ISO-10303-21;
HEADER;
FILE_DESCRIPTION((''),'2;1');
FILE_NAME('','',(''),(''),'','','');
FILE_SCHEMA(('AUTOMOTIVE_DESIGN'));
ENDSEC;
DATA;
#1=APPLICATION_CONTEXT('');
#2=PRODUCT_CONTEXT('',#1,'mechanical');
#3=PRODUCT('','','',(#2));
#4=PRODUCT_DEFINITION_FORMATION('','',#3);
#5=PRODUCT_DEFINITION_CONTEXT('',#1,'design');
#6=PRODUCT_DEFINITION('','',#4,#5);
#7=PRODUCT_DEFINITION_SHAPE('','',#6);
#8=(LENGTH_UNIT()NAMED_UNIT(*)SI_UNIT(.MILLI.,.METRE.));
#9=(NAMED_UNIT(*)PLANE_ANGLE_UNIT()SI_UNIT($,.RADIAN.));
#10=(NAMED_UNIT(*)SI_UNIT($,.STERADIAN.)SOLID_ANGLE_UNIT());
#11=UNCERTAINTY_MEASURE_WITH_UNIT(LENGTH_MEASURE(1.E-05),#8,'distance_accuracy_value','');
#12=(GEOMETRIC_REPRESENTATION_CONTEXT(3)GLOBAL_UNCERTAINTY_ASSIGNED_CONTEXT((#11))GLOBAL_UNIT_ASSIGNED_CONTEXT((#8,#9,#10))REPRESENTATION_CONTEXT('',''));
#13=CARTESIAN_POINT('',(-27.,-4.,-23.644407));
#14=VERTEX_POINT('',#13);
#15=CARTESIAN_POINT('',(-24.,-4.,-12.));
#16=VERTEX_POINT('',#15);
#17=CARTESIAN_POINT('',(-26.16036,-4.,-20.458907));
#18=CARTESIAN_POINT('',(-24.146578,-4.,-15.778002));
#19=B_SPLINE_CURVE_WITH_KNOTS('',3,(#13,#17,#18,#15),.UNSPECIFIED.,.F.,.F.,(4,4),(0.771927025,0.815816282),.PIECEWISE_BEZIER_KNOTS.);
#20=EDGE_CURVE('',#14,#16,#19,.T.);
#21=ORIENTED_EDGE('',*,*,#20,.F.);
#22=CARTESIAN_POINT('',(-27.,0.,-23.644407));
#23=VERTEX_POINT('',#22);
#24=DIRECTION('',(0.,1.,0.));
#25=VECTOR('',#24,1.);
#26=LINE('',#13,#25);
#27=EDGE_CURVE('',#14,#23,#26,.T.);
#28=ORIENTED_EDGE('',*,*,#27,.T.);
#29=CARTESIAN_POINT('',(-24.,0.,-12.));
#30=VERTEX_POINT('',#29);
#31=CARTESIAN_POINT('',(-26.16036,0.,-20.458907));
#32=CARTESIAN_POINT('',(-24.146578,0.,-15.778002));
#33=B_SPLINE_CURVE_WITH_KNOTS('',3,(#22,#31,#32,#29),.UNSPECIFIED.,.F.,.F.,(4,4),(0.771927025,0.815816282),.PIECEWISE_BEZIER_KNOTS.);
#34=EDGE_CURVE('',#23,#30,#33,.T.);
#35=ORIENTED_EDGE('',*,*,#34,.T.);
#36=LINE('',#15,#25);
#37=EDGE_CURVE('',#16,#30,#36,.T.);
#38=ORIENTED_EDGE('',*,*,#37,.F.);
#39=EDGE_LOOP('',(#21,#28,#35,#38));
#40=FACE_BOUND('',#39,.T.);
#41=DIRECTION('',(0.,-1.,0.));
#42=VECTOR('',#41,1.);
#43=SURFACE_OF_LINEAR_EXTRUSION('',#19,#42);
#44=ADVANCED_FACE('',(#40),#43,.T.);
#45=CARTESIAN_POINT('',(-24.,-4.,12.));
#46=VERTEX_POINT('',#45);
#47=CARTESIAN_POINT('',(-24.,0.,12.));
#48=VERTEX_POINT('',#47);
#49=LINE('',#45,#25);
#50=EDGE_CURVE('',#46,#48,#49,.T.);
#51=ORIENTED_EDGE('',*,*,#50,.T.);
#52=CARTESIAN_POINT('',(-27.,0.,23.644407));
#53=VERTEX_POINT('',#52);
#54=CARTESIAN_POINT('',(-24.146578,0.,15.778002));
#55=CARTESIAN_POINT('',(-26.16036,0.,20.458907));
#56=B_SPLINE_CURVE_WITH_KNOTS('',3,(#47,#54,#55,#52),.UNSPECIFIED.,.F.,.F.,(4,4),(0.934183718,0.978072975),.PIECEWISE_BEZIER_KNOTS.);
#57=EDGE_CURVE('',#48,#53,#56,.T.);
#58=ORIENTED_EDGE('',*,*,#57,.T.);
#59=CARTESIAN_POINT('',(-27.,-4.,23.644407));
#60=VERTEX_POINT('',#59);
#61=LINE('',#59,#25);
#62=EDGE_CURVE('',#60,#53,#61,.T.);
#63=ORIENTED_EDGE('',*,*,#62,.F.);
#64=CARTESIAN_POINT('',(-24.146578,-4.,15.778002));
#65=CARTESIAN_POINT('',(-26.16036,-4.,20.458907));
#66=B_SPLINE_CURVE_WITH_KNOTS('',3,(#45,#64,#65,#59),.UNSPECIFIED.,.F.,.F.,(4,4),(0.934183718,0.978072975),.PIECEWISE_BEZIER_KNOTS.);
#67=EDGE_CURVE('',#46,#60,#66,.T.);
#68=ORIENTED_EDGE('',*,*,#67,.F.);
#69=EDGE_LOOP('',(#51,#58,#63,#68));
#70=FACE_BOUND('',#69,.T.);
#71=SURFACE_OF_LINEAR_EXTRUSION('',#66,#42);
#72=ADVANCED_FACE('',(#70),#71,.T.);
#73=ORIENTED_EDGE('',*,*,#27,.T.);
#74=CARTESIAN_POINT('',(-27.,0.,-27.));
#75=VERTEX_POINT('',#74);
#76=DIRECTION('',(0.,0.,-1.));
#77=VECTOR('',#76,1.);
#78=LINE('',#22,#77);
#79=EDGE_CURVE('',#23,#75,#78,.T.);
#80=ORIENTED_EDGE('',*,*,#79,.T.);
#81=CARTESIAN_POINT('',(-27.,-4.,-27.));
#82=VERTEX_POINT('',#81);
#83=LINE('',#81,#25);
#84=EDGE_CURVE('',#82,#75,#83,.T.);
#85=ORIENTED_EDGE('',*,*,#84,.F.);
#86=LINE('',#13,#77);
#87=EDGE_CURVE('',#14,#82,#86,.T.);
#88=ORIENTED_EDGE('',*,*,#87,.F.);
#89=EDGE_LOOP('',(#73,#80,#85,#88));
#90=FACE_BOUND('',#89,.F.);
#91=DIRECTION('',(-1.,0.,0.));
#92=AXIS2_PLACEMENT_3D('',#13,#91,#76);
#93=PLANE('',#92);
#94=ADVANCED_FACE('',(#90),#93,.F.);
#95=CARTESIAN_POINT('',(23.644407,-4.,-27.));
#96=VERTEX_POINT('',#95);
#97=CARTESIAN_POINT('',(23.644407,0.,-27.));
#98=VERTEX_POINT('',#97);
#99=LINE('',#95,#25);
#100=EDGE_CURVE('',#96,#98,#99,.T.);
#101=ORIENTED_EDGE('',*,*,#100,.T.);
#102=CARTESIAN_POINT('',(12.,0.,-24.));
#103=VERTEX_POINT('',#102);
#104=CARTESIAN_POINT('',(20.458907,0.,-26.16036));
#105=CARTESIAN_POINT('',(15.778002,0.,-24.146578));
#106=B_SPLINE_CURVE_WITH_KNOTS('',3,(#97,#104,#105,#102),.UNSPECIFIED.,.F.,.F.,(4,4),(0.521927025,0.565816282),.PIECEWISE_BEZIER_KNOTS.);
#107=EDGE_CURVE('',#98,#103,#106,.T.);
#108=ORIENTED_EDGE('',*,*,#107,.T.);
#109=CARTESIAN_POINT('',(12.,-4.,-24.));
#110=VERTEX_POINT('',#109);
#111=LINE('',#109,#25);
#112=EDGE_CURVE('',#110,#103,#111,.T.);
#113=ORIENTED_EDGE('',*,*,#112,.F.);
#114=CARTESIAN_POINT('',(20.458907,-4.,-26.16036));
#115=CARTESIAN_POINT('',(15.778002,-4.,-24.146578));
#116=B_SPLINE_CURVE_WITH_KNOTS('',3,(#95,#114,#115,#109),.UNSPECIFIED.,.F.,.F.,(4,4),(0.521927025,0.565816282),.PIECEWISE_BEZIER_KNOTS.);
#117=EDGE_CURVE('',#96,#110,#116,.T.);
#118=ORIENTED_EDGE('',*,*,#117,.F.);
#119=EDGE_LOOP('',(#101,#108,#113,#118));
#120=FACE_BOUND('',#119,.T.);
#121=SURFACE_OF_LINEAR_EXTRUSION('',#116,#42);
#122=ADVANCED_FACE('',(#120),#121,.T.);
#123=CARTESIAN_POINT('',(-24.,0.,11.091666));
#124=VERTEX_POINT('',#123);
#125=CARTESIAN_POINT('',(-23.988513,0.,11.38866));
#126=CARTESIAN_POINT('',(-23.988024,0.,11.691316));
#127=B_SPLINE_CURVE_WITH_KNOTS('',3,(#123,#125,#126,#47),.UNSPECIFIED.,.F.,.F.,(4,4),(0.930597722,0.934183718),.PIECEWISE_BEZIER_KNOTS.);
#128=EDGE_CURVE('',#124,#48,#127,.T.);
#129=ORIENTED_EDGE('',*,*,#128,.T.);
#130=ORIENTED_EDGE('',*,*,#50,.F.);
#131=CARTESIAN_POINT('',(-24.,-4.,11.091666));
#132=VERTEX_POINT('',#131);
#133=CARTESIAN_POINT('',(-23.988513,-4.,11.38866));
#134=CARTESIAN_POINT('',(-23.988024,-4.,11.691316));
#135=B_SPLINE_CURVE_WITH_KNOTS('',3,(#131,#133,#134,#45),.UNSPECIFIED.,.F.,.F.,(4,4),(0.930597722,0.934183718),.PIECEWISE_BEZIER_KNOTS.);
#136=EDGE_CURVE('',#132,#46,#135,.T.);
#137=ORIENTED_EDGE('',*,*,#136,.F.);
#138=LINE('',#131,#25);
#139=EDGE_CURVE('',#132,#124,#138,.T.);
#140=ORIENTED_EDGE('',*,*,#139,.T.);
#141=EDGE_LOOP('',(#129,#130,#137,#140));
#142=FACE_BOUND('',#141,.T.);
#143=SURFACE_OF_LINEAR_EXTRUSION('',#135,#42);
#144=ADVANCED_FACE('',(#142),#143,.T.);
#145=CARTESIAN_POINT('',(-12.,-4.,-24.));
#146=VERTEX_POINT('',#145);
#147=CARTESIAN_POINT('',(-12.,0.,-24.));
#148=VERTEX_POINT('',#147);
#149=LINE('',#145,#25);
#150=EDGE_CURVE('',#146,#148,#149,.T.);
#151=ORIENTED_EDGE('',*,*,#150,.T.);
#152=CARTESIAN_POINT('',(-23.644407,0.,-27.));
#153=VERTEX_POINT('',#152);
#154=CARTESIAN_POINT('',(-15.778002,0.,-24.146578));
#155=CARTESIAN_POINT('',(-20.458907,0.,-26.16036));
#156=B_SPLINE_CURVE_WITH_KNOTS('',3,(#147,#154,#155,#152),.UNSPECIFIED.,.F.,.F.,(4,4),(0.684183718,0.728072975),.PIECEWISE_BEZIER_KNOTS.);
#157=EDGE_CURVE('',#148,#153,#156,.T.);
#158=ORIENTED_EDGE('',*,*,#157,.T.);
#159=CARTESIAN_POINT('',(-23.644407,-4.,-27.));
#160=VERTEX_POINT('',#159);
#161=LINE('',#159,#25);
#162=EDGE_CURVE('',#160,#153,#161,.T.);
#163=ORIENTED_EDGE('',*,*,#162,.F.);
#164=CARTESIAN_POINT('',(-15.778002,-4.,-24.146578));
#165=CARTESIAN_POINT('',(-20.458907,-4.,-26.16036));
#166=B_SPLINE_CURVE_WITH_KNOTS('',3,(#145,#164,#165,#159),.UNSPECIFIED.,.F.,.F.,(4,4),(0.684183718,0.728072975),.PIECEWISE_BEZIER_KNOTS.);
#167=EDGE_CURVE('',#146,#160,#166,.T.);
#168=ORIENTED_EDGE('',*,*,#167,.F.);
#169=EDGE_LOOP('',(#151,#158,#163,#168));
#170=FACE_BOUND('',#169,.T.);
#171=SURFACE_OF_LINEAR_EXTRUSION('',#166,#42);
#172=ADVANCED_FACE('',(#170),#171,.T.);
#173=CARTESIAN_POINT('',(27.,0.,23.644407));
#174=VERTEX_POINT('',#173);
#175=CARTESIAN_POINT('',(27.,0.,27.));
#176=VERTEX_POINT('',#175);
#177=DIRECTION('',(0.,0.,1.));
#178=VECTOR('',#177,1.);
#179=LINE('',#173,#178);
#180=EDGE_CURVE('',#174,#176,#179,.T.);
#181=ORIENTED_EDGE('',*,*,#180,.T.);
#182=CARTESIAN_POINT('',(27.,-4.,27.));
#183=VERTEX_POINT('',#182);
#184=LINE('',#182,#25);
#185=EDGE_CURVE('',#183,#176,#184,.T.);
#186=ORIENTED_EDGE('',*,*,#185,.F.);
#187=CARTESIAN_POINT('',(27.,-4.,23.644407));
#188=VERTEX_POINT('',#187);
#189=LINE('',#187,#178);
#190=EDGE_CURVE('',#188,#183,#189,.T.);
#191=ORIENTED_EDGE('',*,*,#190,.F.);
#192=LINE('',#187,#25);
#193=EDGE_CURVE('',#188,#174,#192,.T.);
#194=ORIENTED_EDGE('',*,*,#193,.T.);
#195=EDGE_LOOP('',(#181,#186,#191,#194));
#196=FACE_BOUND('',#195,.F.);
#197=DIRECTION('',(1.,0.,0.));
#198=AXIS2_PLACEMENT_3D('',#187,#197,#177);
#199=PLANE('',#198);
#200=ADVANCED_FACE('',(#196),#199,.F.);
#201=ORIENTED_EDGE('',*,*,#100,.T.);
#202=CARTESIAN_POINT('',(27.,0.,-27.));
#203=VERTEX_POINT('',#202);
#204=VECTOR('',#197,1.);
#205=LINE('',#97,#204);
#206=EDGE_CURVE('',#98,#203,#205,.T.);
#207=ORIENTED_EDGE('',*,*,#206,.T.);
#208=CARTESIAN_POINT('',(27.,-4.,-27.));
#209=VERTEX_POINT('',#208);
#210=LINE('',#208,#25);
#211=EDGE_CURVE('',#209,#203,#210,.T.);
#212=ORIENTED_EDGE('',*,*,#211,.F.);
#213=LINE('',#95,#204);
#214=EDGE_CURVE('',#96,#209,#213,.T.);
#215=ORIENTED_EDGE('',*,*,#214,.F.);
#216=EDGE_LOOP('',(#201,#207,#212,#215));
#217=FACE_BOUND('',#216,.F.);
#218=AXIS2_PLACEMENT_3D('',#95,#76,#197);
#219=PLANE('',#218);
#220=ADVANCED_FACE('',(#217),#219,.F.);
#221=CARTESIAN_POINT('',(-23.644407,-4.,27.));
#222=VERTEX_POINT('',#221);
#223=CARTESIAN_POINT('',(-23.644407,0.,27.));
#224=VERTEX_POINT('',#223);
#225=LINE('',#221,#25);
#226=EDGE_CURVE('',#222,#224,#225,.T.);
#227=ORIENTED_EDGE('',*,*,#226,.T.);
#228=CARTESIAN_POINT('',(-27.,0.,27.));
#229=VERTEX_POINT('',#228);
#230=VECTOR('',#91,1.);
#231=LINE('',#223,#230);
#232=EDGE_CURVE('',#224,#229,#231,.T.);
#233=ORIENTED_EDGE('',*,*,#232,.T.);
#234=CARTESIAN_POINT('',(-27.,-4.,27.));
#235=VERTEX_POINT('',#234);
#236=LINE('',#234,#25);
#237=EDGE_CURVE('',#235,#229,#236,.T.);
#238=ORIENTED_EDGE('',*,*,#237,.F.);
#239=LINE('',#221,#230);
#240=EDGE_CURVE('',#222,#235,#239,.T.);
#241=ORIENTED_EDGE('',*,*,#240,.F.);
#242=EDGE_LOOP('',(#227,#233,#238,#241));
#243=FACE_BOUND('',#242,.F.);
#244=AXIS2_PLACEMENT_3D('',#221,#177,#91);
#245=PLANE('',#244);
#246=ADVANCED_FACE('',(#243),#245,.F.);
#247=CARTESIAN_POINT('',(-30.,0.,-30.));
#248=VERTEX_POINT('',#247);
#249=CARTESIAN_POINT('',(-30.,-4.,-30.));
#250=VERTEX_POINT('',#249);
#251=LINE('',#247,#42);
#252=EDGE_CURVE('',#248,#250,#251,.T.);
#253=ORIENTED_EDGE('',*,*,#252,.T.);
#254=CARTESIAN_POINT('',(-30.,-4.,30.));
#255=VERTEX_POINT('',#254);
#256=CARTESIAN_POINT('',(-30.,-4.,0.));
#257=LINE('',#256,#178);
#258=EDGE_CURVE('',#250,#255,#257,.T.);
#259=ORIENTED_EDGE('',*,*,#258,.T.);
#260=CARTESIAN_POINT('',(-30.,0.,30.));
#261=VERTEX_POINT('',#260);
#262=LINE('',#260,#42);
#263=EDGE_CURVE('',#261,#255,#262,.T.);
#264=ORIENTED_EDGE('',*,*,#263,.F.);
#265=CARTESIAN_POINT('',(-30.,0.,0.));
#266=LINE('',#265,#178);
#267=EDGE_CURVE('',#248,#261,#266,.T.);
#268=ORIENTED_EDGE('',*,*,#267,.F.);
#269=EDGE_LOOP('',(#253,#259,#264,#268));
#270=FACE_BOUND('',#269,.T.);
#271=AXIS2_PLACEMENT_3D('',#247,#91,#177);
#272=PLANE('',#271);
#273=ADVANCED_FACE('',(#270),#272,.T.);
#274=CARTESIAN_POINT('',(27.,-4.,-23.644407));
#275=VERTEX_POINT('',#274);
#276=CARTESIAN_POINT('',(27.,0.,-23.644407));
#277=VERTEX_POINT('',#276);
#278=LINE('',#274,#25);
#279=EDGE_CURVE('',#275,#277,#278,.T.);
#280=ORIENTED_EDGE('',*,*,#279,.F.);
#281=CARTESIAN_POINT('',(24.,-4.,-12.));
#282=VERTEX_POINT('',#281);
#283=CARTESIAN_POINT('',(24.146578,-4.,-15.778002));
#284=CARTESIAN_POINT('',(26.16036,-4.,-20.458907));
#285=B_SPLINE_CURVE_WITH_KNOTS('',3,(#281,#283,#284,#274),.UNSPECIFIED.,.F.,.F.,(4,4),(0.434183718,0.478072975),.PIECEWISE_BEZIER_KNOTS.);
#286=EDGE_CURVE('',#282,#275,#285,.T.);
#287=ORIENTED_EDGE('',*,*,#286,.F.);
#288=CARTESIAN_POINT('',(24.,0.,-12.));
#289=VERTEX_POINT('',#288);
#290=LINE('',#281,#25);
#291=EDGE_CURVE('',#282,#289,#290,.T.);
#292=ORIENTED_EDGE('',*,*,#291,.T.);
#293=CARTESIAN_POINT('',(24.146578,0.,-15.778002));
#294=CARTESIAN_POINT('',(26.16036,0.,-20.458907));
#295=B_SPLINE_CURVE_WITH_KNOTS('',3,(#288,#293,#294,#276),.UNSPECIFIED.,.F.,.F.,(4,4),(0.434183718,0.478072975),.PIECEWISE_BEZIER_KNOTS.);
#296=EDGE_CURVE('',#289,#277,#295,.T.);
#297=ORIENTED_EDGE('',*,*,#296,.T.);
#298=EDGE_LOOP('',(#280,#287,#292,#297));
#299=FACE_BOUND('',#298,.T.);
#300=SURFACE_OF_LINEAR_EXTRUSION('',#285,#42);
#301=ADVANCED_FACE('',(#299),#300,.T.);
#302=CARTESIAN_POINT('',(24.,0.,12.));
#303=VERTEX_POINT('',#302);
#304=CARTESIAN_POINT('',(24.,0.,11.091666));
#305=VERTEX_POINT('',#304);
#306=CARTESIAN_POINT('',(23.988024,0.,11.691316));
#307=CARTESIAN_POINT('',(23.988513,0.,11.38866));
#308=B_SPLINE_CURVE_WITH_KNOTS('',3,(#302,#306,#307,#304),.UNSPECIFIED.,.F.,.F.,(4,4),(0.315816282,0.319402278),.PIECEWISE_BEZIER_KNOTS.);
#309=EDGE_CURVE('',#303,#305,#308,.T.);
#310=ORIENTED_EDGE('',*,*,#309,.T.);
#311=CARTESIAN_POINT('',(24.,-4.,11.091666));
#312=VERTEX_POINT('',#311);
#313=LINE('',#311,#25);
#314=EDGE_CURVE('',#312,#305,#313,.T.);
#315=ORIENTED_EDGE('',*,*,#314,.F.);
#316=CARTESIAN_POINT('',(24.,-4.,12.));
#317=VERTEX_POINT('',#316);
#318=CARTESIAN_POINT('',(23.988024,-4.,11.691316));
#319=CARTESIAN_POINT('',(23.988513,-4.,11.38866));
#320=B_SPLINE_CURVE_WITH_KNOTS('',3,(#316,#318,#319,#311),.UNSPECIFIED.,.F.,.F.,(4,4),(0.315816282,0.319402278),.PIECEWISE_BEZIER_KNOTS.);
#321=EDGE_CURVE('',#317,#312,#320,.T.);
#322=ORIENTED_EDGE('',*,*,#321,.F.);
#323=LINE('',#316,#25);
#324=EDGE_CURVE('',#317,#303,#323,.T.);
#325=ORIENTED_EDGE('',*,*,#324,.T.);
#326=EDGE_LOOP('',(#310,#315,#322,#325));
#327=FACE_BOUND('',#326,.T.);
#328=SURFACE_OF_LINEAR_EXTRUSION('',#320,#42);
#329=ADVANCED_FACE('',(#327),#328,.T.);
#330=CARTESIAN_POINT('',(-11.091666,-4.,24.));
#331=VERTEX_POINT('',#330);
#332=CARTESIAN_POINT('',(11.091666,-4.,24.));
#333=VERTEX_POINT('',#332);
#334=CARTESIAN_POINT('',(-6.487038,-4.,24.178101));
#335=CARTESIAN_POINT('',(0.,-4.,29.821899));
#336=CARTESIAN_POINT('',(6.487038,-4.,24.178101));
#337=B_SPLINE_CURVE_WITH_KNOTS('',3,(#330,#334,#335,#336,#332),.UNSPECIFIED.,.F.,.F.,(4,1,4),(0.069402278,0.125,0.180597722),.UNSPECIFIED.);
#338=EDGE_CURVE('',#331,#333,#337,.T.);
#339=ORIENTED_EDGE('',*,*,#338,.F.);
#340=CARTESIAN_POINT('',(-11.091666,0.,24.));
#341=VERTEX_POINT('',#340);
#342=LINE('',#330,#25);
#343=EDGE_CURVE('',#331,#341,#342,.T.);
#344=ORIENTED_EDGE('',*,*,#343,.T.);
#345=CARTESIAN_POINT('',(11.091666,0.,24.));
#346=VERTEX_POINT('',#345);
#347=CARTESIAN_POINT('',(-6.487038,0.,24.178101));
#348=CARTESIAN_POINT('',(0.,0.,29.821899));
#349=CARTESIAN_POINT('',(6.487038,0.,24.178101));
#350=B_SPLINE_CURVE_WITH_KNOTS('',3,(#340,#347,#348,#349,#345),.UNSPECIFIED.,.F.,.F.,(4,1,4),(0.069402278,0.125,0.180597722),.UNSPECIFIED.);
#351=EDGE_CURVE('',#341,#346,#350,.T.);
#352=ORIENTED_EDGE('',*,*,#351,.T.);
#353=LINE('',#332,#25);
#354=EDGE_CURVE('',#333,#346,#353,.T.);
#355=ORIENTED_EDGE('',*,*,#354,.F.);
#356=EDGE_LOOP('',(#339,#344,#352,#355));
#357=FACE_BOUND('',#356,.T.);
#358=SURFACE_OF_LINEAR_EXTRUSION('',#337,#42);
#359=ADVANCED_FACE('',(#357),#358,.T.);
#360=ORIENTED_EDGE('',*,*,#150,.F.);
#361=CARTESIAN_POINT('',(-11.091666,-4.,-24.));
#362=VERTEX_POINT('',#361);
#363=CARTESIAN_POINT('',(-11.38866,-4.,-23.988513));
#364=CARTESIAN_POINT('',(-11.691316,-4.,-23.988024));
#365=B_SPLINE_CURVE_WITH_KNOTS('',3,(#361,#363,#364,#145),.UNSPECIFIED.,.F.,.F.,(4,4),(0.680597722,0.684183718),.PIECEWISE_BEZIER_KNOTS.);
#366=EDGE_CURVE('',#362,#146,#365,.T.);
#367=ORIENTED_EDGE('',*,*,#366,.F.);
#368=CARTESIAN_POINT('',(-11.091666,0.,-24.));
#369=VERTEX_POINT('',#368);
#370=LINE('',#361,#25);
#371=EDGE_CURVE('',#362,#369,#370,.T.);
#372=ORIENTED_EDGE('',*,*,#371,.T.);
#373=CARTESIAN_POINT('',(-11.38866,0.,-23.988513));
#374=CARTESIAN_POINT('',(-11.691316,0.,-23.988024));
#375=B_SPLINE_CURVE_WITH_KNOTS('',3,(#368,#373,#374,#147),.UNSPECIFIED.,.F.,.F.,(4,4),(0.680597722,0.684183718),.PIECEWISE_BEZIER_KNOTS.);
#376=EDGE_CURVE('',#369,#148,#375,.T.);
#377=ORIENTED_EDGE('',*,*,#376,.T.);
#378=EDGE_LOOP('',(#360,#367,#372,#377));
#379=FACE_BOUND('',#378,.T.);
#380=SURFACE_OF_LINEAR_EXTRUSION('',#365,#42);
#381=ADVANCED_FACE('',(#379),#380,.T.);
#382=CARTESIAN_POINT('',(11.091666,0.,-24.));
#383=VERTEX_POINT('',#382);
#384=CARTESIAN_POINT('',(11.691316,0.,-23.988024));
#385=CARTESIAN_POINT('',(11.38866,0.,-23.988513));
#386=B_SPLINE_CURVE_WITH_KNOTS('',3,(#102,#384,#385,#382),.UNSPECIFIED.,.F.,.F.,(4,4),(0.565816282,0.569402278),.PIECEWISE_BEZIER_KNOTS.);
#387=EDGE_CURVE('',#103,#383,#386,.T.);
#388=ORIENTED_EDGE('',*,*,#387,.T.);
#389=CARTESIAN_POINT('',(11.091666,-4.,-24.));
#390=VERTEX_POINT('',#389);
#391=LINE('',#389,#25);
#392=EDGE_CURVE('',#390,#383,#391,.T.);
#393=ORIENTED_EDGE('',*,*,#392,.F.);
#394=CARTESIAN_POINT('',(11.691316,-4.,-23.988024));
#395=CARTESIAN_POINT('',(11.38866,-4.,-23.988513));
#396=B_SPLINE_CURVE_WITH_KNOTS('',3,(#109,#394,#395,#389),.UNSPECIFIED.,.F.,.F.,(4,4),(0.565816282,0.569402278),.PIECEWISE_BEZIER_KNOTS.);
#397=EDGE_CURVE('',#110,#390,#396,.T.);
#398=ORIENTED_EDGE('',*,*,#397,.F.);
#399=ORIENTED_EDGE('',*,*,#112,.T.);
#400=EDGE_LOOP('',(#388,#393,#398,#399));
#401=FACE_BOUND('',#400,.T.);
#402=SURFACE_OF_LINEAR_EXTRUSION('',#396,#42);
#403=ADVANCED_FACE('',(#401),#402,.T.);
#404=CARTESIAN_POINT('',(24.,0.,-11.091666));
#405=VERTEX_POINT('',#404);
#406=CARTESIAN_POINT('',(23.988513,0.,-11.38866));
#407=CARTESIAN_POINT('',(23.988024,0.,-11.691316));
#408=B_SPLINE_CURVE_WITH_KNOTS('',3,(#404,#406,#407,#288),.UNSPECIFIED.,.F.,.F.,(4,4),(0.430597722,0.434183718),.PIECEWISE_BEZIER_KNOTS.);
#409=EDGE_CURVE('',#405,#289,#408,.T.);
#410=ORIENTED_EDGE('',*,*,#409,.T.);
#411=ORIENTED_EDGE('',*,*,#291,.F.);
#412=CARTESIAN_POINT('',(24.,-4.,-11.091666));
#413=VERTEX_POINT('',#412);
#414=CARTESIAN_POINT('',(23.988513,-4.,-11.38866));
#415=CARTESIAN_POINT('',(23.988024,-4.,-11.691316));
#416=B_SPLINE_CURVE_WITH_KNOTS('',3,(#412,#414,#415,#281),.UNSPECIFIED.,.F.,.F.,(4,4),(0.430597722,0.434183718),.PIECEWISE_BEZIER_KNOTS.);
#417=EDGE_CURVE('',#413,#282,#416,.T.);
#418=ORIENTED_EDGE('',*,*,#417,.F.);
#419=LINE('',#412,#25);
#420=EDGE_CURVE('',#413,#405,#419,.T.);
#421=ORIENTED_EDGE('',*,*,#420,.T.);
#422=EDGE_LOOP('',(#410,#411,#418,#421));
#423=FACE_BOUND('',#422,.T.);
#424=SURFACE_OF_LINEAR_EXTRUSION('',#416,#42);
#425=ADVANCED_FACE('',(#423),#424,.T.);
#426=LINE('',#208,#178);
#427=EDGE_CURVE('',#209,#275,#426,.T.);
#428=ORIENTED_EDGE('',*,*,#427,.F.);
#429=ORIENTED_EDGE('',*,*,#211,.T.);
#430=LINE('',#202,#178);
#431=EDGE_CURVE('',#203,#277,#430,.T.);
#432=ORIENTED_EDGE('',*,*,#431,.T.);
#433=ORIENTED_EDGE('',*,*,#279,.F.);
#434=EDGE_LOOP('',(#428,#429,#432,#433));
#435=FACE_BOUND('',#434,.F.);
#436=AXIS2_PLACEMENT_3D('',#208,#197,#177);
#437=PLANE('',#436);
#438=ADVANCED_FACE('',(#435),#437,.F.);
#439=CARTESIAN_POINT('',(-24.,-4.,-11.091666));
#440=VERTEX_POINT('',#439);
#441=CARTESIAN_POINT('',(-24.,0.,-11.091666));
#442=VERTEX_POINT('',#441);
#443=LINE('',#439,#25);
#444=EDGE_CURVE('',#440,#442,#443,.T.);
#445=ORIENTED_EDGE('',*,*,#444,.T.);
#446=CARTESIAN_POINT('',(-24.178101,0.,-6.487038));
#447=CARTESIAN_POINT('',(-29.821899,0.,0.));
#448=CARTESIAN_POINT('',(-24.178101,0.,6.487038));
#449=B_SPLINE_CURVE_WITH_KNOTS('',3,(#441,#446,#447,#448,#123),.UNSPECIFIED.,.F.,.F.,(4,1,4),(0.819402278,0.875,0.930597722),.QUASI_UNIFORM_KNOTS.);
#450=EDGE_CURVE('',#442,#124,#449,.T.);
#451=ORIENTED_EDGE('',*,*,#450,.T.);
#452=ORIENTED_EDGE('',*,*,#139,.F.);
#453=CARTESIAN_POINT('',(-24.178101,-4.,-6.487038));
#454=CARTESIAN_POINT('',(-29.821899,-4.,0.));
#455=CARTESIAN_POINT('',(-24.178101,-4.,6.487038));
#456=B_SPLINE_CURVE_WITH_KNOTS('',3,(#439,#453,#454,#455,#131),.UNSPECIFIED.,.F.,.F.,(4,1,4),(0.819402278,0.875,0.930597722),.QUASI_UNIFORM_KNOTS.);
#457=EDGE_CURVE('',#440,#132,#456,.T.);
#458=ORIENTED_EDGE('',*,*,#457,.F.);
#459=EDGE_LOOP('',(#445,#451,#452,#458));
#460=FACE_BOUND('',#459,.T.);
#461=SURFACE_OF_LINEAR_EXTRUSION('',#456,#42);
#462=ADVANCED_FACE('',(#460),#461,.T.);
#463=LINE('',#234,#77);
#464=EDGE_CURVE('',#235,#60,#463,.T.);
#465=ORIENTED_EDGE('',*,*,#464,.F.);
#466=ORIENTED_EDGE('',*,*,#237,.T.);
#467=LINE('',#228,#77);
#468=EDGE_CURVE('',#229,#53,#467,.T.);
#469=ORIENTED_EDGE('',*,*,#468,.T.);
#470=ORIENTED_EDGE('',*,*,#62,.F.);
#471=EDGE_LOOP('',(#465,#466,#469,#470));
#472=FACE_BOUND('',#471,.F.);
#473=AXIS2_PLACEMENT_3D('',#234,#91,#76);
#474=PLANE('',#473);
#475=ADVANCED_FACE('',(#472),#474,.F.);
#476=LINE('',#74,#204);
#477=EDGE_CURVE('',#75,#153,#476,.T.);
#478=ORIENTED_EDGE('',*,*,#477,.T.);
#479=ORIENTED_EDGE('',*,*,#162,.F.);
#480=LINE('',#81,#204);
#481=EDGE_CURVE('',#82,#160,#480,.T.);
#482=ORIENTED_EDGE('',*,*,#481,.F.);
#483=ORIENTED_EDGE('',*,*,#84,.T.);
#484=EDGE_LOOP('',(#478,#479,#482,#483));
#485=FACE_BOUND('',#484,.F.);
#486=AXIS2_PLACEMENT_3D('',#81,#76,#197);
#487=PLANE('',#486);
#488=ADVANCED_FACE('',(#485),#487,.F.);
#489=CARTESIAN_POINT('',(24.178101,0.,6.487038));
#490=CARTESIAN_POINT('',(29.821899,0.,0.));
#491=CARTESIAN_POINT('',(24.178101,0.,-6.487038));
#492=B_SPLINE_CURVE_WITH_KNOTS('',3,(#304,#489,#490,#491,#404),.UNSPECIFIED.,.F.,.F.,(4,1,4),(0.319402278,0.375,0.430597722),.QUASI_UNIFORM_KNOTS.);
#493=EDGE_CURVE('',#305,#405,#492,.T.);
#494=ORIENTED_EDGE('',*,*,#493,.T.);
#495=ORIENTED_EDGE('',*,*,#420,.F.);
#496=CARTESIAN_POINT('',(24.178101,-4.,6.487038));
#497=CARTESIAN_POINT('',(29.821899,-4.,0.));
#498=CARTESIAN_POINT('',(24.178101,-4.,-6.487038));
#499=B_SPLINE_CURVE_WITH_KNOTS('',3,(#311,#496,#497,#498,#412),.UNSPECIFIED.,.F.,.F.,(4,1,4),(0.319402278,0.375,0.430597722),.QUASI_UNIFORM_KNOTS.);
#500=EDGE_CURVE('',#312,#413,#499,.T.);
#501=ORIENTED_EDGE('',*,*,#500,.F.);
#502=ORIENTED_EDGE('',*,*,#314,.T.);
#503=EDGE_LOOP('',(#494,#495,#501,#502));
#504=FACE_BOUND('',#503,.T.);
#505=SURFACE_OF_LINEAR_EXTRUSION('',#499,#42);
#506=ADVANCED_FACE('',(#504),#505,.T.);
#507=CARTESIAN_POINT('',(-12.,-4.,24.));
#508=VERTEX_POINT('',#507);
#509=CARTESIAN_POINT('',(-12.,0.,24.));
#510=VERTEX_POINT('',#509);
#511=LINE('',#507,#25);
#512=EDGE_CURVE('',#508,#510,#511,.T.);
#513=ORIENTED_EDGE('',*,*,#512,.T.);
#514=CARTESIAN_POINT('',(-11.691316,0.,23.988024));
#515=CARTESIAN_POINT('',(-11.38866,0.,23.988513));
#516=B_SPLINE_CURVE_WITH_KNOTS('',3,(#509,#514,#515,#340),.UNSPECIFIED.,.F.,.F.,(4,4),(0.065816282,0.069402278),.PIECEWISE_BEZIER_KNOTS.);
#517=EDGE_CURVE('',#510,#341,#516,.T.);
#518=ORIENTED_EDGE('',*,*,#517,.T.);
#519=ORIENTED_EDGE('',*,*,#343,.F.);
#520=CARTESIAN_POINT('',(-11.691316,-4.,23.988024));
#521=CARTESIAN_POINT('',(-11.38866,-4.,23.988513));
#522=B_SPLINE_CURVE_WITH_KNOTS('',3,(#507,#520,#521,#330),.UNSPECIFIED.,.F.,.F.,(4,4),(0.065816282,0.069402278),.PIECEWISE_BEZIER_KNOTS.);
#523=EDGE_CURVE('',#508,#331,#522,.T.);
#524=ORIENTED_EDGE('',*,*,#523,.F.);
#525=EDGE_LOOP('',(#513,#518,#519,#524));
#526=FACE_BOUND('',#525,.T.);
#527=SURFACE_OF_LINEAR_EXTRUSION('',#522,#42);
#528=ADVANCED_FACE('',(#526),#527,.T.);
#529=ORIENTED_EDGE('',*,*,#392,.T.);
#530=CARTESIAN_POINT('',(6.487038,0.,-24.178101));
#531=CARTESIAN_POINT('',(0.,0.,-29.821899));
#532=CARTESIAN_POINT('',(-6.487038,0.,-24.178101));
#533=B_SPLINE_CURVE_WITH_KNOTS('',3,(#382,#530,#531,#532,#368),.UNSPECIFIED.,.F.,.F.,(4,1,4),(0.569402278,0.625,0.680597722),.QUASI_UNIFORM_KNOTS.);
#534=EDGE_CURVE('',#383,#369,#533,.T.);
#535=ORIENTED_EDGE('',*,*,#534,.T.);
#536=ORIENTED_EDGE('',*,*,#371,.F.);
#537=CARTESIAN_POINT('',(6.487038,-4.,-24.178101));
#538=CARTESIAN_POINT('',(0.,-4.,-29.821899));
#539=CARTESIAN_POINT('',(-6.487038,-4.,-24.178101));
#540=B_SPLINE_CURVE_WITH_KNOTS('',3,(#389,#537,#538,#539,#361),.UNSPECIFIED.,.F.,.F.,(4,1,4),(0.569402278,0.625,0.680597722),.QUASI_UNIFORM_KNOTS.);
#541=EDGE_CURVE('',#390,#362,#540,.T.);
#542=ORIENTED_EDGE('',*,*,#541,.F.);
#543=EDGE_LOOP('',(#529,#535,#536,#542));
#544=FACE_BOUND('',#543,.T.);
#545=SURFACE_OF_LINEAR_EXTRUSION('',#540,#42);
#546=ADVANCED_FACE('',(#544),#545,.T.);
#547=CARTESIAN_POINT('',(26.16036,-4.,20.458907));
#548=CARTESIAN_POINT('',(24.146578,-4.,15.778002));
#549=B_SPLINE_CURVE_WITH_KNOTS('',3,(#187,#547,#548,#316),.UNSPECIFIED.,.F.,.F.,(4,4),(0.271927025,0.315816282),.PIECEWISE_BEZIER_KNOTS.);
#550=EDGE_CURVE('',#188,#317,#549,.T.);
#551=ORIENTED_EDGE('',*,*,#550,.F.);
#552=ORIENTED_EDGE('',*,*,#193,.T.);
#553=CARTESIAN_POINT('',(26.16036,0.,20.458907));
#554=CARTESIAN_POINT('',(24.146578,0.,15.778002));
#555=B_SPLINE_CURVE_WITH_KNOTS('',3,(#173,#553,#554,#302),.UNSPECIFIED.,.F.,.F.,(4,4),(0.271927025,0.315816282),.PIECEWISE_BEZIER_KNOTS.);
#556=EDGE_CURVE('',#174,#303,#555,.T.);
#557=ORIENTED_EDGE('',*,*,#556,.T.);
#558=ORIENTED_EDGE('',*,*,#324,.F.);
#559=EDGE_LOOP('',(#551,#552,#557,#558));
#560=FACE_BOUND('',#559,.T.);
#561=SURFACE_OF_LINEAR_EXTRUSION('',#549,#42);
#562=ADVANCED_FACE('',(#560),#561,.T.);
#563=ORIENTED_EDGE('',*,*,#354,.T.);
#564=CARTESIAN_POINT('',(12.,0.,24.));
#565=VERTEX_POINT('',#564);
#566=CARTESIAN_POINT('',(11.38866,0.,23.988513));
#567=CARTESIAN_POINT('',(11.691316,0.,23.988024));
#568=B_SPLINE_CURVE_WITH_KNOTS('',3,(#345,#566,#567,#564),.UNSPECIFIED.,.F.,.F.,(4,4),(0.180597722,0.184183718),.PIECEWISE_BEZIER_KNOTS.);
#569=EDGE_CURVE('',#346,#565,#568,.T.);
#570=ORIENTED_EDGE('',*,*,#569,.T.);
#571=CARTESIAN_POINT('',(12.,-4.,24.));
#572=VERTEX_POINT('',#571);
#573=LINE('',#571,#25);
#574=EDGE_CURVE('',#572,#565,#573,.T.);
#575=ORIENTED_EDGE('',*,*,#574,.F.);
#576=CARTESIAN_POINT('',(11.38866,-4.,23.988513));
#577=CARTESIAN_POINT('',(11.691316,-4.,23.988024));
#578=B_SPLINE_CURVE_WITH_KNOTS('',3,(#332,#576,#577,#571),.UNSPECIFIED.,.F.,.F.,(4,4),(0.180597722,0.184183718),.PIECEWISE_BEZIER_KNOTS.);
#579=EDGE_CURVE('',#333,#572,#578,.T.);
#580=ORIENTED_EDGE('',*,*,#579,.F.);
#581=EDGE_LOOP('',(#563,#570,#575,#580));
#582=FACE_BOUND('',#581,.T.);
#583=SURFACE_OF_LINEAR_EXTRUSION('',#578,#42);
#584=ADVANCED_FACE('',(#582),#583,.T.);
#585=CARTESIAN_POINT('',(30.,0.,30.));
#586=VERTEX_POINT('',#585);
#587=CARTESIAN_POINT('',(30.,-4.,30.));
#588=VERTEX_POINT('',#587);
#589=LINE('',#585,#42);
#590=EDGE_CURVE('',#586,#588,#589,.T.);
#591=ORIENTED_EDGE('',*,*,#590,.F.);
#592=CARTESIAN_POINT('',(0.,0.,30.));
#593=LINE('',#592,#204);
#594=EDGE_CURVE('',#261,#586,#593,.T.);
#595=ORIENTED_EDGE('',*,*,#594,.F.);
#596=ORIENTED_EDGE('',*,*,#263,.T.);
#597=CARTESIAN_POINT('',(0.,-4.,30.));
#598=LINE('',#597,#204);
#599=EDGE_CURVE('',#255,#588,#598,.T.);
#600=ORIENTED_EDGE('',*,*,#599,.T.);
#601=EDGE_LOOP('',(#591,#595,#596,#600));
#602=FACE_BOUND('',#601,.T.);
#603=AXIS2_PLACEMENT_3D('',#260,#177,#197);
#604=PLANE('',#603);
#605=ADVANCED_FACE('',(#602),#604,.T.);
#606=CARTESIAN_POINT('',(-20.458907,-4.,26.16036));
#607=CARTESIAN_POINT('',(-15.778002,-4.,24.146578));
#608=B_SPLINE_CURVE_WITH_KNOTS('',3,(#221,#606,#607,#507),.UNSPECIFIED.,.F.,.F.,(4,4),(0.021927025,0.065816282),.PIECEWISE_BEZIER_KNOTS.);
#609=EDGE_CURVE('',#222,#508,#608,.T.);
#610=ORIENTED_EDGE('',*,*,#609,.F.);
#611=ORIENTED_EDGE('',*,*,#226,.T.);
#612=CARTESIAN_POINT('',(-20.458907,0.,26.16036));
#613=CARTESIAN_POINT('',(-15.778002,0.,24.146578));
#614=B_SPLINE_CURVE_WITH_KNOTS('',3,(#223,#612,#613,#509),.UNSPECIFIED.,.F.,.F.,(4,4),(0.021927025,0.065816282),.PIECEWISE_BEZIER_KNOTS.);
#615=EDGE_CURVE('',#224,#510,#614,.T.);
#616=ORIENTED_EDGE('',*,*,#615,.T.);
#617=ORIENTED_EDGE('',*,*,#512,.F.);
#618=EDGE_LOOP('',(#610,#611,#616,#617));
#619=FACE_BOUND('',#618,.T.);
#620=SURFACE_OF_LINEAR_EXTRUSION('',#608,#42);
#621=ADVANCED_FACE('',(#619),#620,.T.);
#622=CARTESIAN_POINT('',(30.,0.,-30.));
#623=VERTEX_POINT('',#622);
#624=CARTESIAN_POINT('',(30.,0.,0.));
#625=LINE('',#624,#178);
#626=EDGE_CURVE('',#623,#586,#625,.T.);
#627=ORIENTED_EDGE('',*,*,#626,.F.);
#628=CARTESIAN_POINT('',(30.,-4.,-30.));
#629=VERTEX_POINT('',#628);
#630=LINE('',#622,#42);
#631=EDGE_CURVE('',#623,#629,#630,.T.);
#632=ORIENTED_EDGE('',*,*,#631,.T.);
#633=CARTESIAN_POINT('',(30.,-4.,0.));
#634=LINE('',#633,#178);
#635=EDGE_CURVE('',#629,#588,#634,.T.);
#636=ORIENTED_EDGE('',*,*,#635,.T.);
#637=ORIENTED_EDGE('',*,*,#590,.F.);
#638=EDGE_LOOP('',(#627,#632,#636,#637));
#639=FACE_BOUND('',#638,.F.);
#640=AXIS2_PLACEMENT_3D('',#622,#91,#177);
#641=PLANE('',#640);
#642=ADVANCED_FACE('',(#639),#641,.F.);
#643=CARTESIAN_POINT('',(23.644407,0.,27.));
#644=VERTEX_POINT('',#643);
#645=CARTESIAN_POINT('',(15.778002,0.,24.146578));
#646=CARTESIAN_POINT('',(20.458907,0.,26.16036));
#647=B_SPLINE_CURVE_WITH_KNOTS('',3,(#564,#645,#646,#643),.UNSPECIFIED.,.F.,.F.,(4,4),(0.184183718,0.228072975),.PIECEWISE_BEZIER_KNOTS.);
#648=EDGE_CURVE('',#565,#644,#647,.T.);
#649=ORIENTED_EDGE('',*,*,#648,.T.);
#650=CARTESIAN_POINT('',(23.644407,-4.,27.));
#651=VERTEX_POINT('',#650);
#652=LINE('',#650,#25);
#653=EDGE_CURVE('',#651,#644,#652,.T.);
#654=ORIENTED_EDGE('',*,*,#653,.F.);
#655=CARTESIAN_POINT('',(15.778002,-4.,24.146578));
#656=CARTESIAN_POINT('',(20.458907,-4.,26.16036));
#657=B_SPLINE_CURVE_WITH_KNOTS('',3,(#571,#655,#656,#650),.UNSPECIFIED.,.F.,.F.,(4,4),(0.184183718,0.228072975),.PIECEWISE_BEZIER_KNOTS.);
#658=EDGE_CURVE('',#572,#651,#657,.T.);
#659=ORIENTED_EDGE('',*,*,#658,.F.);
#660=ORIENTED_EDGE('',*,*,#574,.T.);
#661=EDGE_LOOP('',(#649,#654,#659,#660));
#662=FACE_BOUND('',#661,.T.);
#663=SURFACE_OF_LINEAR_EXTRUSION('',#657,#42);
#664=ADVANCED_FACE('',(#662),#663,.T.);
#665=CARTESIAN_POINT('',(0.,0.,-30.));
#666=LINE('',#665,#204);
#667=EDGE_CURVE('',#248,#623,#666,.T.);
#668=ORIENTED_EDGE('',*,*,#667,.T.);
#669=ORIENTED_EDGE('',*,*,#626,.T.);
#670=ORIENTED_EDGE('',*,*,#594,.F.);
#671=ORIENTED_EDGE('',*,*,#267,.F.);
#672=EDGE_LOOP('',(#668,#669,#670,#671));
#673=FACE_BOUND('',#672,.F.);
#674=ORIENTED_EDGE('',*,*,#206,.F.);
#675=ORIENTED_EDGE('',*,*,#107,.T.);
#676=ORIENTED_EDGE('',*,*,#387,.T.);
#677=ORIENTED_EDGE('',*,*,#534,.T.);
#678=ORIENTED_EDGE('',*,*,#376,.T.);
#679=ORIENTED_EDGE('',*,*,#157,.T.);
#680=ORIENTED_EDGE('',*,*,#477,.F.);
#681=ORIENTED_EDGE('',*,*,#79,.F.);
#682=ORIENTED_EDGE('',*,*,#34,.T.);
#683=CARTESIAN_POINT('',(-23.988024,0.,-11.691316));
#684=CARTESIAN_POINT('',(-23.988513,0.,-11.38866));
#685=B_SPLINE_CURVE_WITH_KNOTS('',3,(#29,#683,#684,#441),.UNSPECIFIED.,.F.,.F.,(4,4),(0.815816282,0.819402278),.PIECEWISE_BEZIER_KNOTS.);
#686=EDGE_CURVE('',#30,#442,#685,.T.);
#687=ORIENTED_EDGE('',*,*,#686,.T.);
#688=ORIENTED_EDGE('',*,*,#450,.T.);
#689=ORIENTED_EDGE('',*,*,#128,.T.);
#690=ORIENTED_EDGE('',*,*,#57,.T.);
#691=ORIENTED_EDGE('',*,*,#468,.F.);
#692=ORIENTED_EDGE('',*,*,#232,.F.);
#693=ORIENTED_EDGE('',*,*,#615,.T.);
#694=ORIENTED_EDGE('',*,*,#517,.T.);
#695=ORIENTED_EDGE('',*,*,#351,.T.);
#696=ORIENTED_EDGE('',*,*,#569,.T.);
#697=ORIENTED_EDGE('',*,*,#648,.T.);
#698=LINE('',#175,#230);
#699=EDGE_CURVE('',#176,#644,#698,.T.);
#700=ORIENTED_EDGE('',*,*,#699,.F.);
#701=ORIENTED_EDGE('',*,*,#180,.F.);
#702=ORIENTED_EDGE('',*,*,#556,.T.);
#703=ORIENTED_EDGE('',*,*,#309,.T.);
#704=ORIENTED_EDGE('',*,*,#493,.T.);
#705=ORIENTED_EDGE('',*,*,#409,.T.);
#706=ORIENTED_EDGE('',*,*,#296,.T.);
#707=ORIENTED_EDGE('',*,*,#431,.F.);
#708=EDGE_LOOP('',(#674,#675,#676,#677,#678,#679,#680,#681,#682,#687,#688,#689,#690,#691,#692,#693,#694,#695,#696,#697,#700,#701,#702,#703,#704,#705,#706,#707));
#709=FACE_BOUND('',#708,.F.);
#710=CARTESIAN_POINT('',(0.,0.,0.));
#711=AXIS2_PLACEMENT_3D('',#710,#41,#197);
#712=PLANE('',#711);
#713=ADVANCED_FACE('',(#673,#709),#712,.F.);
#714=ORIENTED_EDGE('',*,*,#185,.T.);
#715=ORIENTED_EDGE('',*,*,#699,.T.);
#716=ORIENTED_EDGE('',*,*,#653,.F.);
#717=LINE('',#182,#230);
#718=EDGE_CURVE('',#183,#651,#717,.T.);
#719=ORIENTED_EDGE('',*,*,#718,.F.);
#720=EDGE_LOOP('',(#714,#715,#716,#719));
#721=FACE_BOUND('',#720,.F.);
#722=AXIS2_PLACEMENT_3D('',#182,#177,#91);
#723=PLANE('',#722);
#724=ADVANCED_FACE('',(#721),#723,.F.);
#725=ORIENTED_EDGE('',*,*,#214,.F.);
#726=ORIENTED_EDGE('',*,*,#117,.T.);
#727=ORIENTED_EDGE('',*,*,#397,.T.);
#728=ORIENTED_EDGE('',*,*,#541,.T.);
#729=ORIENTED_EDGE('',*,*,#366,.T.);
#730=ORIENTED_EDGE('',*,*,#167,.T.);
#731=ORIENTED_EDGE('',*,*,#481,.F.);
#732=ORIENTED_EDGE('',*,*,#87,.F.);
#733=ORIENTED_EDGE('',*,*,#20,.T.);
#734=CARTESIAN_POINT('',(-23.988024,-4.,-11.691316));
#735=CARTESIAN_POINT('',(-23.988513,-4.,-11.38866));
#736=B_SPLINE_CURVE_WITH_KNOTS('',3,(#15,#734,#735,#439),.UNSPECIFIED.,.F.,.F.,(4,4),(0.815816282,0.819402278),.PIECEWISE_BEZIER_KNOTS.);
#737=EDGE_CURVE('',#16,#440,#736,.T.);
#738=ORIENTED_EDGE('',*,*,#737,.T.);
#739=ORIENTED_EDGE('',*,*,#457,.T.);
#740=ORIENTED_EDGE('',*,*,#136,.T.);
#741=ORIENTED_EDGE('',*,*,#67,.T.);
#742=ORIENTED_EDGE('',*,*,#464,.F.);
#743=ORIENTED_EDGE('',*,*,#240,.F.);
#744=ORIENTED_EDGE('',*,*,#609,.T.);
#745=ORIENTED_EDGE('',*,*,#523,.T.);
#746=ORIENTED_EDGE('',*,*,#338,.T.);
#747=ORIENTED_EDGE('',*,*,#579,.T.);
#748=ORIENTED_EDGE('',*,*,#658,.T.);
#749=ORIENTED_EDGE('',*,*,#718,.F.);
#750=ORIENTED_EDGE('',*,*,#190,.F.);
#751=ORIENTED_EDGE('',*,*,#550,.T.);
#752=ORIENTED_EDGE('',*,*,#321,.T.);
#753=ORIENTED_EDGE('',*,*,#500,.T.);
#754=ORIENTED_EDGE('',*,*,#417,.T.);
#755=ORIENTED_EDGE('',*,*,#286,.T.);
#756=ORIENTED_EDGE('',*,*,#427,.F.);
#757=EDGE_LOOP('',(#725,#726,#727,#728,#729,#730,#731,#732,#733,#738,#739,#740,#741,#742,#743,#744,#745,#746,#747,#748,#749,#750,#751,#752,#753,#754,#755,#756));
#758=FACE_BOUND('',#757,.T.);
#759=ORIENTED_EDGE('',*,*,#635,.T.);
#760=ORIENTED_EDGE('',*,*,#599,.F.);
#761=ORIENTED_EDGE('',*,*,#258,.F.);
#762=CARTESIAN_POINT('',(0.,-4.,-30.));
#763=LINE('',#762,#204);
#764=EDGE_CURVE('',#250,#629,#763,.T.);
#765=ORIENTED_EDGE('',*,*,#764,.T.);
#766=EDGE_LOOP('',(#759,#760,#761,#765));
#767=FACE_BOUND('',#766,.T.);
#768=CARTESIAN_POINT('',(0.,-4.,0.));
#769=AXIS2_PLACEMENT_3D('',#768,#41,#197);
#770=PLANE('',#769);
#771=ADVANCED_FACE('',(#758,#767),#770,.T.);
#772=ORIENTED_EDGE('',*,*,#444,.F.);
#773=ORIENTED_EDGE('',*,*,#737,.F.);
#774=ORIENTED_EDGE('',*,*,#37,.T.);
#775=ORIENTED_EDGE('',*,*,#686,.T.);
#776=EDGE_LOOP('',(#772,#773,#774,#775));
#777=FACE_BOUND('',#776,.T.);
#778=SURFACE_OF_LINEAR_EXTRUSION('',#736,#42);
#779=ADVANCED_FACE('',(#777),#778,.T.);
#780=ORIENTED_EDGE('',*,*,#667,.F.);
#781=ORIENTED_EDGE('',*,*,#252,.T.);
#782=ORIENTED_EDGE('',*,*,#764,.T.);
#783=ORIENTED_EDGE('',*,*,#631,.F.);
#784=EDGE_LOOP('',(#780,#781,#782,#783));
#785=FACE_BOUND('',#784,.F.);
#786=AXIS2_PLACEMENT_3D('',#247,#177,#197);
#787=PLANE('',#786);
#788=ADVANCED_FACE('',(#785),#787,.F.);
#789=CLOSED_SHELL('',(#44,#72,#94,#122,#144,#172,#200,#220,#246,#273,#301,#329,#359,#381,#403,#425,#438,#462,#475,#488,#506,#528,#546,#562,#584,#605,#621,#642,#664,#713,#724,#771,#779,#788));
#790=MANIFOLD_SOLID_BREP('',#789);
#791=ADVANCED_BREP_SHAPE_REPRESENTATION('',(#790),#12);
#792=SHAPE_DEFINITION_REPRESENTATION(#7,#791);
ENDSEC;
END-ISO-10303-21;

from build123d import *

# Parameters (mm, degrees)
F0_W     = 60
F0_H     = 60
F1_DEPTH = 4
F3_DEPTH = 4


with BuildPart() as f1:
    # F0 (on Front) → F1 (new body)
    with BuildSketch(Plane.XZ):
        Rectangle(F0_W, F0_H)
    extrude(amount=F1_DEPTH)

    # F2 (on face) → F3 (cut)
    with BuildSketch(Plane.XZ.offset(4)):
        with BuildLine():
            Line((-24, 24), (-24, 12))
            add(Edge.make_bspline(
                [(-24, 11.0916663679), (-23.9885126385, 11.3886601328), (-23.9880237808, 11.6913162711), (-24, 12)],
                knots=[0.930597722, 0.930597722, 0.930597722, 0.930597722, 0.9341837176, 0.9341837176, 0.9341837176, 0.9341837176], degree=3))
            Line((-24, 11.0916663679), (-24, 0))
            Line((-24, 0), (-24, -11.0916663679))
            add(Edge.make_bspline(
                [(-24, -12), (-23.9880237808, -11.6913162711), (-23.9885126385, -11.3886601328), (-24, -11.0916663679)],
                knots=[0.8158162824, 0.8158162824, 0.8158162824, 0.8158162824, 0.819402278, 0.819402278, 0.819402278, 0.819402278], degree=3))
            Line((-24, -12), (-24, -24))
            Line((-24, -24), (-12, -24))
            add(Edge.make_bspline(
                [(-11.0916663679, -24), (-11.3886601328, -23.9885126385), (-11.6913162711, -23.9880237808), (-12, -24)],
                knots=[0.680597722, 0.680597722, 0.680597722, 0.680597722, 0.6841837176, 0.6841837176, 0.6841837176, 0.6841837176], degree=3))
            Line((-11.0916663679, -24), (0, -24))
            Line((0, -24), (11.0916663679, -24))
            add(Edge.make_bspline(
                [(12, -24), (11.6913162711, -23.9880237808), (11.3886601328, -23.9885126385), (11.0916663679, -24)],
                knots=[0.5658162824, 0.5658162824, 0.5658162824, 0.5658162824, 0.569402278, 0.569402278, 0.569402278, 0.569402278], degree=3))
            Line((12, -24), (24, -24))
            Line((24, -24), (24, -12))
            add(Edge.make_bspline(
                [(24, -11.0916663679), (23.9885126385, -11.3886601328), (23.9880237808, -11.6913162711), (24, -12)],
                knots=[0.430597722, 0.430597722, 0.430597722, 0.430597722, 0.4341837176, 0.4341837176, 0.4341837176, 0.4341837176], degree=3))
            Line((24, -11.0916663679), (24, 0))
            Line((24, 0), (24, 11.0916663679))
            add(Edge.make_bspline(
                [(24, 12), (23.9880237808, 11.6913162711), (23.9885126385, 11.3886601328), (24, 11.0916663679)],
                knots=[0.3158162824, 0.3158162824, 0.3158162824, 0.3158162824, 0.319402278, 0.319402278, 0.319402278, 0.319402278], degree=3))
            Line((24, 12), (24, 24))
            Line((24, 24), (12, 24))
            add(Edge.make_bspline(
                [(11.0916663679, 24), (11.3886601328, 23.9885126385), (11.6913162711, 23.9880237808), (12, 24)],
                knots=[0.180597722, 0.180597722, 0.180597722, 0.180597722, 0.1841837176, 0.1841837176, 0.1841837176, 0.1841837176], degree=3))
            Line((11.0916663679, 24), (0, 24))
            Line((0, 24), (-11.0916663679, 24))
            add(Edge.make_bspline(
                [(-12, 24), (-11.6913162711, 23.9880237808), (-11.3886601328, 23.9885126385), (-11.0916663679, 24)],
                knots=[0.0658162824, 0.0658162824, 0.0658162824, 0.0658162824, 0.069402278, 0.069402278, 0.069402278, 0.069402278], degree=3))
            Line((-12, 24), (-24, 24))
        make_face()
        with BuildLine():
            Line((-23.6444065198, 27), (-27, 27))
            Line((-27, 27), (-27, 23.6444065198))
            add(Edge.make_bspline(
                [(-24, 12), (-24.1465778089, 15.7780023822), (-26.1603603507, 20.4589070033), (-27, 23.6444065198)],
                knots=[0.9341837176, 0.9341837176, 0.9341837176, 0.9341837176, 0.9780729754, 0.9780729754, 0.9780729754, 0.9780729754], degree=3))
            Line((-24, 12), (-24, 24))
            Line((-24, 24), (-12, 24))
            add(Edge.make_bspline(
                [(-23.6444065198, 27), (-20.4589070033, 26.1603603507), (-15.7780023822, 24.1465778089), (-12, 24)],
                knots=[0.0219270246, 0.0219270246, 0.0219270246, 0.0219270246, 0.0658162824, 0.0658162824, 0.0658162824, 0.0658162824], degree=3))
        make_face()
        with BuildLine():
            add(Edge.make_bspline(
                [(-2.98e-08, 27), (3.2435190013, 27.000000013), (6.4870380255, 24.1781014922), (11.0916663631, 24.0000000045)],
                knots=[0.125, 0.125, 0.125, 0.125, 0.180597722, 0.180597722, 0.180597722, 0.180597722], degree=3))
            add(Edge.make_bspline(
                [(-11.0916663679, 24), (-6.4870380342, 24.1781014842), (-3.243519032, 26.999999987), (-2.98e-08, 27)],
                knots=[0.069402278, 0.069402278, 0.069402278, 0.069402278, 0.125, 0.125, 0.125, 0.125], degree=3))
            Line((-11.0916663679, 24), (0, 24))
            Line((0, 24), (11.0916663679, 24))
        make_face()
        with BuildLine():
            Line((27, 27), (23.6444065198, 27))
            add(Edge.make_bspline(
                [(12, 24), (15.7780023822, 24.1465778089), (20.4589070033, 26.1603603507), (23.6444065198, 27)],
                knots=[0.1841837176, 0.1841837176, 0.1841837176, 0.1841837176, 0.2280729754, 0.2280729754, 0.2280729754, 0.2280729754], degree=3))
            Line((12, 24), (24, 24))
            Line((24, 24), (24, 12))
            add(Edge.make_bspline(
                [(27, 23.6444065198), (26.1603603507, 20.4589070033), (24.1465778089, 15.7780023822), (24, 12)],
                knots=[0.2719270246, 0.2719270246, 0.2719270246, 0.2719270246, 0.3158162824, 0.3158162824, 0.3158162824, 0.3158162824], degree=3))
            Line((27, 23.6444065198), (27, 27))
        make_face()
        with BuildLine():
            add(Edge.make_bspline(
                [(27, 0), (27, -3.2435190171), (24.1781014842, -6.4870380342), (24, -11.0916663679)],
                knots=[0.375, 0.375, 0.375, 0.375, 0.430597722, 0.430597722, 0.430597722, 0.430597722], degree=3))
            add(Edge.make_bspline(
                [(24, 11.0916663679), (24.1781014842, 6.4870380342), (27, 3.2435190171), (27, 0)],
                knots=[0.319402278, 0.319402278, 0.319402278, 0.319402278, 0.375, 0.375, 0.375, 0.375], degree=3))
            Line((24, 11.0916663679), (24, 0))
            Line((24, 0), (24, -11.0916663679))
        make_face()
        with BuildLine():
            add(Edge.make_bspline(
                [(23.6444065198, -27), (20.4589070033, -26.1603603507), (15.7780023822, -24.1465778089), (12, -24)],
                knots=[0.5219270246, 0.5219270246, 0.5219270246, 0.5219270246, 0.5658162824, 0.5658162824, 0.5658162824, 0.5658162824], degree=3))
            Line((23.6444065198, -27), (27, -27))
            Line((27, -27), (27, -23.6444065198))
            add(Edge.make_bspline(
                [(24, -12), (24.1465778089, -15.7780023822), (26.1603603507, -20.4589070033), (27, -23.6444065198)],
                knots=[0.4341837176, 0.4341837176, 0.4341837176, 0.4341837176, 0.4780729754, 0.4780729754, 0.4780729754, 0.4780729754], degree=3))
            Line((24, -12), (24, -24))
            Line((24, -24), (12, -24))
        make_face()
        with BuildLine():
            add(Edge.make_bspline(
                [(0, -27), (-3.2435190171, -27), (-6.4870380342, -24.1781014842), (-11.0916663679, -24)],
                knots=[0.625, 0.625, 0.625, 0.625, 0.680597722, 0.680597722, 0.680597722, 0.680597722], degree=3))
            add(Edge.make_bspline(
                [(11.0916663679, -24), (6.4870380342, -24.1781014842), (3.2435190171, -27), (0, -27)],
                knots=[0.569402278, 0.569402278, 0.569402278, 0.569402278, 0.625, 0.625, 0.625, 0.625], degree=3))
            Line((11.0916663679, -24), (0, -24))
            Line((0, -24), (-11.0916663679, -24))
        make_face()
        with BuildLine():
            add(Edge.make_bspline(
                [(-27, -23.6444065198), (-26.1603603507, -20.4589070033), (-24.1465778089, -15.7780023822), (-24, -12)],
                knots=[0.7719270246, 0.7719270246, 0.7719270246, 0.7719270246, 0.8158162824, 0.8158162824, 0.8158162824, 0.8158162824], degree=3))
            Line((-27, -23.6444065198), (-27, -27))
            Line((-27, -27), (-23.6444065198, -27))
            add(Edge.make_bspline(
                [(-12, -24), (-15.7780023822, -24.1465778089), (-20.4589070033, -26.1603603507), (-23.6444065198, -27)],
                knots=[0.6841837176, 0.6841837176, 0.6841837176, 0.6841837176, 0.7280729754, 0.7280729754, 0.7280729754, 0.7280729754], degree=3))
            Line((-12, -24), (-24, -24))
            Line((-24, -24), (-24, -12))
        make_face()
        with BuildLine():
            add(Edge.make_bspline(
                [(-27, 0), (-27, 3.2435190171), (-24.1781014842, 6.4870380342), (-24, 11.0916663679)],
                knots=[0.875, 0.875, 0.875, 0.875, 0.930597722, 0.930597722, 0.930597722, 0.930597722], degree=3))
            add(Edge.make_bspline(
                [(-24, -11.0916663679), (-24.1781014842, -6.4870380342), (-27, -3.2435190171), (-27, 0)],
                knots=[0.819402278, 0.819402278, 0.819402278, 0.819402278, 0.875, 0.875, 0.875, 0.875], degree=3))
            Line((-24, -11.0916663679), (-24, 0))
            Line((-24, 0), (-24, 11.0916663679))
        make_face()
    extrude(amount=-F3_DEPTH, mode=Mode.SUBTRACT)


solid = f1.part
